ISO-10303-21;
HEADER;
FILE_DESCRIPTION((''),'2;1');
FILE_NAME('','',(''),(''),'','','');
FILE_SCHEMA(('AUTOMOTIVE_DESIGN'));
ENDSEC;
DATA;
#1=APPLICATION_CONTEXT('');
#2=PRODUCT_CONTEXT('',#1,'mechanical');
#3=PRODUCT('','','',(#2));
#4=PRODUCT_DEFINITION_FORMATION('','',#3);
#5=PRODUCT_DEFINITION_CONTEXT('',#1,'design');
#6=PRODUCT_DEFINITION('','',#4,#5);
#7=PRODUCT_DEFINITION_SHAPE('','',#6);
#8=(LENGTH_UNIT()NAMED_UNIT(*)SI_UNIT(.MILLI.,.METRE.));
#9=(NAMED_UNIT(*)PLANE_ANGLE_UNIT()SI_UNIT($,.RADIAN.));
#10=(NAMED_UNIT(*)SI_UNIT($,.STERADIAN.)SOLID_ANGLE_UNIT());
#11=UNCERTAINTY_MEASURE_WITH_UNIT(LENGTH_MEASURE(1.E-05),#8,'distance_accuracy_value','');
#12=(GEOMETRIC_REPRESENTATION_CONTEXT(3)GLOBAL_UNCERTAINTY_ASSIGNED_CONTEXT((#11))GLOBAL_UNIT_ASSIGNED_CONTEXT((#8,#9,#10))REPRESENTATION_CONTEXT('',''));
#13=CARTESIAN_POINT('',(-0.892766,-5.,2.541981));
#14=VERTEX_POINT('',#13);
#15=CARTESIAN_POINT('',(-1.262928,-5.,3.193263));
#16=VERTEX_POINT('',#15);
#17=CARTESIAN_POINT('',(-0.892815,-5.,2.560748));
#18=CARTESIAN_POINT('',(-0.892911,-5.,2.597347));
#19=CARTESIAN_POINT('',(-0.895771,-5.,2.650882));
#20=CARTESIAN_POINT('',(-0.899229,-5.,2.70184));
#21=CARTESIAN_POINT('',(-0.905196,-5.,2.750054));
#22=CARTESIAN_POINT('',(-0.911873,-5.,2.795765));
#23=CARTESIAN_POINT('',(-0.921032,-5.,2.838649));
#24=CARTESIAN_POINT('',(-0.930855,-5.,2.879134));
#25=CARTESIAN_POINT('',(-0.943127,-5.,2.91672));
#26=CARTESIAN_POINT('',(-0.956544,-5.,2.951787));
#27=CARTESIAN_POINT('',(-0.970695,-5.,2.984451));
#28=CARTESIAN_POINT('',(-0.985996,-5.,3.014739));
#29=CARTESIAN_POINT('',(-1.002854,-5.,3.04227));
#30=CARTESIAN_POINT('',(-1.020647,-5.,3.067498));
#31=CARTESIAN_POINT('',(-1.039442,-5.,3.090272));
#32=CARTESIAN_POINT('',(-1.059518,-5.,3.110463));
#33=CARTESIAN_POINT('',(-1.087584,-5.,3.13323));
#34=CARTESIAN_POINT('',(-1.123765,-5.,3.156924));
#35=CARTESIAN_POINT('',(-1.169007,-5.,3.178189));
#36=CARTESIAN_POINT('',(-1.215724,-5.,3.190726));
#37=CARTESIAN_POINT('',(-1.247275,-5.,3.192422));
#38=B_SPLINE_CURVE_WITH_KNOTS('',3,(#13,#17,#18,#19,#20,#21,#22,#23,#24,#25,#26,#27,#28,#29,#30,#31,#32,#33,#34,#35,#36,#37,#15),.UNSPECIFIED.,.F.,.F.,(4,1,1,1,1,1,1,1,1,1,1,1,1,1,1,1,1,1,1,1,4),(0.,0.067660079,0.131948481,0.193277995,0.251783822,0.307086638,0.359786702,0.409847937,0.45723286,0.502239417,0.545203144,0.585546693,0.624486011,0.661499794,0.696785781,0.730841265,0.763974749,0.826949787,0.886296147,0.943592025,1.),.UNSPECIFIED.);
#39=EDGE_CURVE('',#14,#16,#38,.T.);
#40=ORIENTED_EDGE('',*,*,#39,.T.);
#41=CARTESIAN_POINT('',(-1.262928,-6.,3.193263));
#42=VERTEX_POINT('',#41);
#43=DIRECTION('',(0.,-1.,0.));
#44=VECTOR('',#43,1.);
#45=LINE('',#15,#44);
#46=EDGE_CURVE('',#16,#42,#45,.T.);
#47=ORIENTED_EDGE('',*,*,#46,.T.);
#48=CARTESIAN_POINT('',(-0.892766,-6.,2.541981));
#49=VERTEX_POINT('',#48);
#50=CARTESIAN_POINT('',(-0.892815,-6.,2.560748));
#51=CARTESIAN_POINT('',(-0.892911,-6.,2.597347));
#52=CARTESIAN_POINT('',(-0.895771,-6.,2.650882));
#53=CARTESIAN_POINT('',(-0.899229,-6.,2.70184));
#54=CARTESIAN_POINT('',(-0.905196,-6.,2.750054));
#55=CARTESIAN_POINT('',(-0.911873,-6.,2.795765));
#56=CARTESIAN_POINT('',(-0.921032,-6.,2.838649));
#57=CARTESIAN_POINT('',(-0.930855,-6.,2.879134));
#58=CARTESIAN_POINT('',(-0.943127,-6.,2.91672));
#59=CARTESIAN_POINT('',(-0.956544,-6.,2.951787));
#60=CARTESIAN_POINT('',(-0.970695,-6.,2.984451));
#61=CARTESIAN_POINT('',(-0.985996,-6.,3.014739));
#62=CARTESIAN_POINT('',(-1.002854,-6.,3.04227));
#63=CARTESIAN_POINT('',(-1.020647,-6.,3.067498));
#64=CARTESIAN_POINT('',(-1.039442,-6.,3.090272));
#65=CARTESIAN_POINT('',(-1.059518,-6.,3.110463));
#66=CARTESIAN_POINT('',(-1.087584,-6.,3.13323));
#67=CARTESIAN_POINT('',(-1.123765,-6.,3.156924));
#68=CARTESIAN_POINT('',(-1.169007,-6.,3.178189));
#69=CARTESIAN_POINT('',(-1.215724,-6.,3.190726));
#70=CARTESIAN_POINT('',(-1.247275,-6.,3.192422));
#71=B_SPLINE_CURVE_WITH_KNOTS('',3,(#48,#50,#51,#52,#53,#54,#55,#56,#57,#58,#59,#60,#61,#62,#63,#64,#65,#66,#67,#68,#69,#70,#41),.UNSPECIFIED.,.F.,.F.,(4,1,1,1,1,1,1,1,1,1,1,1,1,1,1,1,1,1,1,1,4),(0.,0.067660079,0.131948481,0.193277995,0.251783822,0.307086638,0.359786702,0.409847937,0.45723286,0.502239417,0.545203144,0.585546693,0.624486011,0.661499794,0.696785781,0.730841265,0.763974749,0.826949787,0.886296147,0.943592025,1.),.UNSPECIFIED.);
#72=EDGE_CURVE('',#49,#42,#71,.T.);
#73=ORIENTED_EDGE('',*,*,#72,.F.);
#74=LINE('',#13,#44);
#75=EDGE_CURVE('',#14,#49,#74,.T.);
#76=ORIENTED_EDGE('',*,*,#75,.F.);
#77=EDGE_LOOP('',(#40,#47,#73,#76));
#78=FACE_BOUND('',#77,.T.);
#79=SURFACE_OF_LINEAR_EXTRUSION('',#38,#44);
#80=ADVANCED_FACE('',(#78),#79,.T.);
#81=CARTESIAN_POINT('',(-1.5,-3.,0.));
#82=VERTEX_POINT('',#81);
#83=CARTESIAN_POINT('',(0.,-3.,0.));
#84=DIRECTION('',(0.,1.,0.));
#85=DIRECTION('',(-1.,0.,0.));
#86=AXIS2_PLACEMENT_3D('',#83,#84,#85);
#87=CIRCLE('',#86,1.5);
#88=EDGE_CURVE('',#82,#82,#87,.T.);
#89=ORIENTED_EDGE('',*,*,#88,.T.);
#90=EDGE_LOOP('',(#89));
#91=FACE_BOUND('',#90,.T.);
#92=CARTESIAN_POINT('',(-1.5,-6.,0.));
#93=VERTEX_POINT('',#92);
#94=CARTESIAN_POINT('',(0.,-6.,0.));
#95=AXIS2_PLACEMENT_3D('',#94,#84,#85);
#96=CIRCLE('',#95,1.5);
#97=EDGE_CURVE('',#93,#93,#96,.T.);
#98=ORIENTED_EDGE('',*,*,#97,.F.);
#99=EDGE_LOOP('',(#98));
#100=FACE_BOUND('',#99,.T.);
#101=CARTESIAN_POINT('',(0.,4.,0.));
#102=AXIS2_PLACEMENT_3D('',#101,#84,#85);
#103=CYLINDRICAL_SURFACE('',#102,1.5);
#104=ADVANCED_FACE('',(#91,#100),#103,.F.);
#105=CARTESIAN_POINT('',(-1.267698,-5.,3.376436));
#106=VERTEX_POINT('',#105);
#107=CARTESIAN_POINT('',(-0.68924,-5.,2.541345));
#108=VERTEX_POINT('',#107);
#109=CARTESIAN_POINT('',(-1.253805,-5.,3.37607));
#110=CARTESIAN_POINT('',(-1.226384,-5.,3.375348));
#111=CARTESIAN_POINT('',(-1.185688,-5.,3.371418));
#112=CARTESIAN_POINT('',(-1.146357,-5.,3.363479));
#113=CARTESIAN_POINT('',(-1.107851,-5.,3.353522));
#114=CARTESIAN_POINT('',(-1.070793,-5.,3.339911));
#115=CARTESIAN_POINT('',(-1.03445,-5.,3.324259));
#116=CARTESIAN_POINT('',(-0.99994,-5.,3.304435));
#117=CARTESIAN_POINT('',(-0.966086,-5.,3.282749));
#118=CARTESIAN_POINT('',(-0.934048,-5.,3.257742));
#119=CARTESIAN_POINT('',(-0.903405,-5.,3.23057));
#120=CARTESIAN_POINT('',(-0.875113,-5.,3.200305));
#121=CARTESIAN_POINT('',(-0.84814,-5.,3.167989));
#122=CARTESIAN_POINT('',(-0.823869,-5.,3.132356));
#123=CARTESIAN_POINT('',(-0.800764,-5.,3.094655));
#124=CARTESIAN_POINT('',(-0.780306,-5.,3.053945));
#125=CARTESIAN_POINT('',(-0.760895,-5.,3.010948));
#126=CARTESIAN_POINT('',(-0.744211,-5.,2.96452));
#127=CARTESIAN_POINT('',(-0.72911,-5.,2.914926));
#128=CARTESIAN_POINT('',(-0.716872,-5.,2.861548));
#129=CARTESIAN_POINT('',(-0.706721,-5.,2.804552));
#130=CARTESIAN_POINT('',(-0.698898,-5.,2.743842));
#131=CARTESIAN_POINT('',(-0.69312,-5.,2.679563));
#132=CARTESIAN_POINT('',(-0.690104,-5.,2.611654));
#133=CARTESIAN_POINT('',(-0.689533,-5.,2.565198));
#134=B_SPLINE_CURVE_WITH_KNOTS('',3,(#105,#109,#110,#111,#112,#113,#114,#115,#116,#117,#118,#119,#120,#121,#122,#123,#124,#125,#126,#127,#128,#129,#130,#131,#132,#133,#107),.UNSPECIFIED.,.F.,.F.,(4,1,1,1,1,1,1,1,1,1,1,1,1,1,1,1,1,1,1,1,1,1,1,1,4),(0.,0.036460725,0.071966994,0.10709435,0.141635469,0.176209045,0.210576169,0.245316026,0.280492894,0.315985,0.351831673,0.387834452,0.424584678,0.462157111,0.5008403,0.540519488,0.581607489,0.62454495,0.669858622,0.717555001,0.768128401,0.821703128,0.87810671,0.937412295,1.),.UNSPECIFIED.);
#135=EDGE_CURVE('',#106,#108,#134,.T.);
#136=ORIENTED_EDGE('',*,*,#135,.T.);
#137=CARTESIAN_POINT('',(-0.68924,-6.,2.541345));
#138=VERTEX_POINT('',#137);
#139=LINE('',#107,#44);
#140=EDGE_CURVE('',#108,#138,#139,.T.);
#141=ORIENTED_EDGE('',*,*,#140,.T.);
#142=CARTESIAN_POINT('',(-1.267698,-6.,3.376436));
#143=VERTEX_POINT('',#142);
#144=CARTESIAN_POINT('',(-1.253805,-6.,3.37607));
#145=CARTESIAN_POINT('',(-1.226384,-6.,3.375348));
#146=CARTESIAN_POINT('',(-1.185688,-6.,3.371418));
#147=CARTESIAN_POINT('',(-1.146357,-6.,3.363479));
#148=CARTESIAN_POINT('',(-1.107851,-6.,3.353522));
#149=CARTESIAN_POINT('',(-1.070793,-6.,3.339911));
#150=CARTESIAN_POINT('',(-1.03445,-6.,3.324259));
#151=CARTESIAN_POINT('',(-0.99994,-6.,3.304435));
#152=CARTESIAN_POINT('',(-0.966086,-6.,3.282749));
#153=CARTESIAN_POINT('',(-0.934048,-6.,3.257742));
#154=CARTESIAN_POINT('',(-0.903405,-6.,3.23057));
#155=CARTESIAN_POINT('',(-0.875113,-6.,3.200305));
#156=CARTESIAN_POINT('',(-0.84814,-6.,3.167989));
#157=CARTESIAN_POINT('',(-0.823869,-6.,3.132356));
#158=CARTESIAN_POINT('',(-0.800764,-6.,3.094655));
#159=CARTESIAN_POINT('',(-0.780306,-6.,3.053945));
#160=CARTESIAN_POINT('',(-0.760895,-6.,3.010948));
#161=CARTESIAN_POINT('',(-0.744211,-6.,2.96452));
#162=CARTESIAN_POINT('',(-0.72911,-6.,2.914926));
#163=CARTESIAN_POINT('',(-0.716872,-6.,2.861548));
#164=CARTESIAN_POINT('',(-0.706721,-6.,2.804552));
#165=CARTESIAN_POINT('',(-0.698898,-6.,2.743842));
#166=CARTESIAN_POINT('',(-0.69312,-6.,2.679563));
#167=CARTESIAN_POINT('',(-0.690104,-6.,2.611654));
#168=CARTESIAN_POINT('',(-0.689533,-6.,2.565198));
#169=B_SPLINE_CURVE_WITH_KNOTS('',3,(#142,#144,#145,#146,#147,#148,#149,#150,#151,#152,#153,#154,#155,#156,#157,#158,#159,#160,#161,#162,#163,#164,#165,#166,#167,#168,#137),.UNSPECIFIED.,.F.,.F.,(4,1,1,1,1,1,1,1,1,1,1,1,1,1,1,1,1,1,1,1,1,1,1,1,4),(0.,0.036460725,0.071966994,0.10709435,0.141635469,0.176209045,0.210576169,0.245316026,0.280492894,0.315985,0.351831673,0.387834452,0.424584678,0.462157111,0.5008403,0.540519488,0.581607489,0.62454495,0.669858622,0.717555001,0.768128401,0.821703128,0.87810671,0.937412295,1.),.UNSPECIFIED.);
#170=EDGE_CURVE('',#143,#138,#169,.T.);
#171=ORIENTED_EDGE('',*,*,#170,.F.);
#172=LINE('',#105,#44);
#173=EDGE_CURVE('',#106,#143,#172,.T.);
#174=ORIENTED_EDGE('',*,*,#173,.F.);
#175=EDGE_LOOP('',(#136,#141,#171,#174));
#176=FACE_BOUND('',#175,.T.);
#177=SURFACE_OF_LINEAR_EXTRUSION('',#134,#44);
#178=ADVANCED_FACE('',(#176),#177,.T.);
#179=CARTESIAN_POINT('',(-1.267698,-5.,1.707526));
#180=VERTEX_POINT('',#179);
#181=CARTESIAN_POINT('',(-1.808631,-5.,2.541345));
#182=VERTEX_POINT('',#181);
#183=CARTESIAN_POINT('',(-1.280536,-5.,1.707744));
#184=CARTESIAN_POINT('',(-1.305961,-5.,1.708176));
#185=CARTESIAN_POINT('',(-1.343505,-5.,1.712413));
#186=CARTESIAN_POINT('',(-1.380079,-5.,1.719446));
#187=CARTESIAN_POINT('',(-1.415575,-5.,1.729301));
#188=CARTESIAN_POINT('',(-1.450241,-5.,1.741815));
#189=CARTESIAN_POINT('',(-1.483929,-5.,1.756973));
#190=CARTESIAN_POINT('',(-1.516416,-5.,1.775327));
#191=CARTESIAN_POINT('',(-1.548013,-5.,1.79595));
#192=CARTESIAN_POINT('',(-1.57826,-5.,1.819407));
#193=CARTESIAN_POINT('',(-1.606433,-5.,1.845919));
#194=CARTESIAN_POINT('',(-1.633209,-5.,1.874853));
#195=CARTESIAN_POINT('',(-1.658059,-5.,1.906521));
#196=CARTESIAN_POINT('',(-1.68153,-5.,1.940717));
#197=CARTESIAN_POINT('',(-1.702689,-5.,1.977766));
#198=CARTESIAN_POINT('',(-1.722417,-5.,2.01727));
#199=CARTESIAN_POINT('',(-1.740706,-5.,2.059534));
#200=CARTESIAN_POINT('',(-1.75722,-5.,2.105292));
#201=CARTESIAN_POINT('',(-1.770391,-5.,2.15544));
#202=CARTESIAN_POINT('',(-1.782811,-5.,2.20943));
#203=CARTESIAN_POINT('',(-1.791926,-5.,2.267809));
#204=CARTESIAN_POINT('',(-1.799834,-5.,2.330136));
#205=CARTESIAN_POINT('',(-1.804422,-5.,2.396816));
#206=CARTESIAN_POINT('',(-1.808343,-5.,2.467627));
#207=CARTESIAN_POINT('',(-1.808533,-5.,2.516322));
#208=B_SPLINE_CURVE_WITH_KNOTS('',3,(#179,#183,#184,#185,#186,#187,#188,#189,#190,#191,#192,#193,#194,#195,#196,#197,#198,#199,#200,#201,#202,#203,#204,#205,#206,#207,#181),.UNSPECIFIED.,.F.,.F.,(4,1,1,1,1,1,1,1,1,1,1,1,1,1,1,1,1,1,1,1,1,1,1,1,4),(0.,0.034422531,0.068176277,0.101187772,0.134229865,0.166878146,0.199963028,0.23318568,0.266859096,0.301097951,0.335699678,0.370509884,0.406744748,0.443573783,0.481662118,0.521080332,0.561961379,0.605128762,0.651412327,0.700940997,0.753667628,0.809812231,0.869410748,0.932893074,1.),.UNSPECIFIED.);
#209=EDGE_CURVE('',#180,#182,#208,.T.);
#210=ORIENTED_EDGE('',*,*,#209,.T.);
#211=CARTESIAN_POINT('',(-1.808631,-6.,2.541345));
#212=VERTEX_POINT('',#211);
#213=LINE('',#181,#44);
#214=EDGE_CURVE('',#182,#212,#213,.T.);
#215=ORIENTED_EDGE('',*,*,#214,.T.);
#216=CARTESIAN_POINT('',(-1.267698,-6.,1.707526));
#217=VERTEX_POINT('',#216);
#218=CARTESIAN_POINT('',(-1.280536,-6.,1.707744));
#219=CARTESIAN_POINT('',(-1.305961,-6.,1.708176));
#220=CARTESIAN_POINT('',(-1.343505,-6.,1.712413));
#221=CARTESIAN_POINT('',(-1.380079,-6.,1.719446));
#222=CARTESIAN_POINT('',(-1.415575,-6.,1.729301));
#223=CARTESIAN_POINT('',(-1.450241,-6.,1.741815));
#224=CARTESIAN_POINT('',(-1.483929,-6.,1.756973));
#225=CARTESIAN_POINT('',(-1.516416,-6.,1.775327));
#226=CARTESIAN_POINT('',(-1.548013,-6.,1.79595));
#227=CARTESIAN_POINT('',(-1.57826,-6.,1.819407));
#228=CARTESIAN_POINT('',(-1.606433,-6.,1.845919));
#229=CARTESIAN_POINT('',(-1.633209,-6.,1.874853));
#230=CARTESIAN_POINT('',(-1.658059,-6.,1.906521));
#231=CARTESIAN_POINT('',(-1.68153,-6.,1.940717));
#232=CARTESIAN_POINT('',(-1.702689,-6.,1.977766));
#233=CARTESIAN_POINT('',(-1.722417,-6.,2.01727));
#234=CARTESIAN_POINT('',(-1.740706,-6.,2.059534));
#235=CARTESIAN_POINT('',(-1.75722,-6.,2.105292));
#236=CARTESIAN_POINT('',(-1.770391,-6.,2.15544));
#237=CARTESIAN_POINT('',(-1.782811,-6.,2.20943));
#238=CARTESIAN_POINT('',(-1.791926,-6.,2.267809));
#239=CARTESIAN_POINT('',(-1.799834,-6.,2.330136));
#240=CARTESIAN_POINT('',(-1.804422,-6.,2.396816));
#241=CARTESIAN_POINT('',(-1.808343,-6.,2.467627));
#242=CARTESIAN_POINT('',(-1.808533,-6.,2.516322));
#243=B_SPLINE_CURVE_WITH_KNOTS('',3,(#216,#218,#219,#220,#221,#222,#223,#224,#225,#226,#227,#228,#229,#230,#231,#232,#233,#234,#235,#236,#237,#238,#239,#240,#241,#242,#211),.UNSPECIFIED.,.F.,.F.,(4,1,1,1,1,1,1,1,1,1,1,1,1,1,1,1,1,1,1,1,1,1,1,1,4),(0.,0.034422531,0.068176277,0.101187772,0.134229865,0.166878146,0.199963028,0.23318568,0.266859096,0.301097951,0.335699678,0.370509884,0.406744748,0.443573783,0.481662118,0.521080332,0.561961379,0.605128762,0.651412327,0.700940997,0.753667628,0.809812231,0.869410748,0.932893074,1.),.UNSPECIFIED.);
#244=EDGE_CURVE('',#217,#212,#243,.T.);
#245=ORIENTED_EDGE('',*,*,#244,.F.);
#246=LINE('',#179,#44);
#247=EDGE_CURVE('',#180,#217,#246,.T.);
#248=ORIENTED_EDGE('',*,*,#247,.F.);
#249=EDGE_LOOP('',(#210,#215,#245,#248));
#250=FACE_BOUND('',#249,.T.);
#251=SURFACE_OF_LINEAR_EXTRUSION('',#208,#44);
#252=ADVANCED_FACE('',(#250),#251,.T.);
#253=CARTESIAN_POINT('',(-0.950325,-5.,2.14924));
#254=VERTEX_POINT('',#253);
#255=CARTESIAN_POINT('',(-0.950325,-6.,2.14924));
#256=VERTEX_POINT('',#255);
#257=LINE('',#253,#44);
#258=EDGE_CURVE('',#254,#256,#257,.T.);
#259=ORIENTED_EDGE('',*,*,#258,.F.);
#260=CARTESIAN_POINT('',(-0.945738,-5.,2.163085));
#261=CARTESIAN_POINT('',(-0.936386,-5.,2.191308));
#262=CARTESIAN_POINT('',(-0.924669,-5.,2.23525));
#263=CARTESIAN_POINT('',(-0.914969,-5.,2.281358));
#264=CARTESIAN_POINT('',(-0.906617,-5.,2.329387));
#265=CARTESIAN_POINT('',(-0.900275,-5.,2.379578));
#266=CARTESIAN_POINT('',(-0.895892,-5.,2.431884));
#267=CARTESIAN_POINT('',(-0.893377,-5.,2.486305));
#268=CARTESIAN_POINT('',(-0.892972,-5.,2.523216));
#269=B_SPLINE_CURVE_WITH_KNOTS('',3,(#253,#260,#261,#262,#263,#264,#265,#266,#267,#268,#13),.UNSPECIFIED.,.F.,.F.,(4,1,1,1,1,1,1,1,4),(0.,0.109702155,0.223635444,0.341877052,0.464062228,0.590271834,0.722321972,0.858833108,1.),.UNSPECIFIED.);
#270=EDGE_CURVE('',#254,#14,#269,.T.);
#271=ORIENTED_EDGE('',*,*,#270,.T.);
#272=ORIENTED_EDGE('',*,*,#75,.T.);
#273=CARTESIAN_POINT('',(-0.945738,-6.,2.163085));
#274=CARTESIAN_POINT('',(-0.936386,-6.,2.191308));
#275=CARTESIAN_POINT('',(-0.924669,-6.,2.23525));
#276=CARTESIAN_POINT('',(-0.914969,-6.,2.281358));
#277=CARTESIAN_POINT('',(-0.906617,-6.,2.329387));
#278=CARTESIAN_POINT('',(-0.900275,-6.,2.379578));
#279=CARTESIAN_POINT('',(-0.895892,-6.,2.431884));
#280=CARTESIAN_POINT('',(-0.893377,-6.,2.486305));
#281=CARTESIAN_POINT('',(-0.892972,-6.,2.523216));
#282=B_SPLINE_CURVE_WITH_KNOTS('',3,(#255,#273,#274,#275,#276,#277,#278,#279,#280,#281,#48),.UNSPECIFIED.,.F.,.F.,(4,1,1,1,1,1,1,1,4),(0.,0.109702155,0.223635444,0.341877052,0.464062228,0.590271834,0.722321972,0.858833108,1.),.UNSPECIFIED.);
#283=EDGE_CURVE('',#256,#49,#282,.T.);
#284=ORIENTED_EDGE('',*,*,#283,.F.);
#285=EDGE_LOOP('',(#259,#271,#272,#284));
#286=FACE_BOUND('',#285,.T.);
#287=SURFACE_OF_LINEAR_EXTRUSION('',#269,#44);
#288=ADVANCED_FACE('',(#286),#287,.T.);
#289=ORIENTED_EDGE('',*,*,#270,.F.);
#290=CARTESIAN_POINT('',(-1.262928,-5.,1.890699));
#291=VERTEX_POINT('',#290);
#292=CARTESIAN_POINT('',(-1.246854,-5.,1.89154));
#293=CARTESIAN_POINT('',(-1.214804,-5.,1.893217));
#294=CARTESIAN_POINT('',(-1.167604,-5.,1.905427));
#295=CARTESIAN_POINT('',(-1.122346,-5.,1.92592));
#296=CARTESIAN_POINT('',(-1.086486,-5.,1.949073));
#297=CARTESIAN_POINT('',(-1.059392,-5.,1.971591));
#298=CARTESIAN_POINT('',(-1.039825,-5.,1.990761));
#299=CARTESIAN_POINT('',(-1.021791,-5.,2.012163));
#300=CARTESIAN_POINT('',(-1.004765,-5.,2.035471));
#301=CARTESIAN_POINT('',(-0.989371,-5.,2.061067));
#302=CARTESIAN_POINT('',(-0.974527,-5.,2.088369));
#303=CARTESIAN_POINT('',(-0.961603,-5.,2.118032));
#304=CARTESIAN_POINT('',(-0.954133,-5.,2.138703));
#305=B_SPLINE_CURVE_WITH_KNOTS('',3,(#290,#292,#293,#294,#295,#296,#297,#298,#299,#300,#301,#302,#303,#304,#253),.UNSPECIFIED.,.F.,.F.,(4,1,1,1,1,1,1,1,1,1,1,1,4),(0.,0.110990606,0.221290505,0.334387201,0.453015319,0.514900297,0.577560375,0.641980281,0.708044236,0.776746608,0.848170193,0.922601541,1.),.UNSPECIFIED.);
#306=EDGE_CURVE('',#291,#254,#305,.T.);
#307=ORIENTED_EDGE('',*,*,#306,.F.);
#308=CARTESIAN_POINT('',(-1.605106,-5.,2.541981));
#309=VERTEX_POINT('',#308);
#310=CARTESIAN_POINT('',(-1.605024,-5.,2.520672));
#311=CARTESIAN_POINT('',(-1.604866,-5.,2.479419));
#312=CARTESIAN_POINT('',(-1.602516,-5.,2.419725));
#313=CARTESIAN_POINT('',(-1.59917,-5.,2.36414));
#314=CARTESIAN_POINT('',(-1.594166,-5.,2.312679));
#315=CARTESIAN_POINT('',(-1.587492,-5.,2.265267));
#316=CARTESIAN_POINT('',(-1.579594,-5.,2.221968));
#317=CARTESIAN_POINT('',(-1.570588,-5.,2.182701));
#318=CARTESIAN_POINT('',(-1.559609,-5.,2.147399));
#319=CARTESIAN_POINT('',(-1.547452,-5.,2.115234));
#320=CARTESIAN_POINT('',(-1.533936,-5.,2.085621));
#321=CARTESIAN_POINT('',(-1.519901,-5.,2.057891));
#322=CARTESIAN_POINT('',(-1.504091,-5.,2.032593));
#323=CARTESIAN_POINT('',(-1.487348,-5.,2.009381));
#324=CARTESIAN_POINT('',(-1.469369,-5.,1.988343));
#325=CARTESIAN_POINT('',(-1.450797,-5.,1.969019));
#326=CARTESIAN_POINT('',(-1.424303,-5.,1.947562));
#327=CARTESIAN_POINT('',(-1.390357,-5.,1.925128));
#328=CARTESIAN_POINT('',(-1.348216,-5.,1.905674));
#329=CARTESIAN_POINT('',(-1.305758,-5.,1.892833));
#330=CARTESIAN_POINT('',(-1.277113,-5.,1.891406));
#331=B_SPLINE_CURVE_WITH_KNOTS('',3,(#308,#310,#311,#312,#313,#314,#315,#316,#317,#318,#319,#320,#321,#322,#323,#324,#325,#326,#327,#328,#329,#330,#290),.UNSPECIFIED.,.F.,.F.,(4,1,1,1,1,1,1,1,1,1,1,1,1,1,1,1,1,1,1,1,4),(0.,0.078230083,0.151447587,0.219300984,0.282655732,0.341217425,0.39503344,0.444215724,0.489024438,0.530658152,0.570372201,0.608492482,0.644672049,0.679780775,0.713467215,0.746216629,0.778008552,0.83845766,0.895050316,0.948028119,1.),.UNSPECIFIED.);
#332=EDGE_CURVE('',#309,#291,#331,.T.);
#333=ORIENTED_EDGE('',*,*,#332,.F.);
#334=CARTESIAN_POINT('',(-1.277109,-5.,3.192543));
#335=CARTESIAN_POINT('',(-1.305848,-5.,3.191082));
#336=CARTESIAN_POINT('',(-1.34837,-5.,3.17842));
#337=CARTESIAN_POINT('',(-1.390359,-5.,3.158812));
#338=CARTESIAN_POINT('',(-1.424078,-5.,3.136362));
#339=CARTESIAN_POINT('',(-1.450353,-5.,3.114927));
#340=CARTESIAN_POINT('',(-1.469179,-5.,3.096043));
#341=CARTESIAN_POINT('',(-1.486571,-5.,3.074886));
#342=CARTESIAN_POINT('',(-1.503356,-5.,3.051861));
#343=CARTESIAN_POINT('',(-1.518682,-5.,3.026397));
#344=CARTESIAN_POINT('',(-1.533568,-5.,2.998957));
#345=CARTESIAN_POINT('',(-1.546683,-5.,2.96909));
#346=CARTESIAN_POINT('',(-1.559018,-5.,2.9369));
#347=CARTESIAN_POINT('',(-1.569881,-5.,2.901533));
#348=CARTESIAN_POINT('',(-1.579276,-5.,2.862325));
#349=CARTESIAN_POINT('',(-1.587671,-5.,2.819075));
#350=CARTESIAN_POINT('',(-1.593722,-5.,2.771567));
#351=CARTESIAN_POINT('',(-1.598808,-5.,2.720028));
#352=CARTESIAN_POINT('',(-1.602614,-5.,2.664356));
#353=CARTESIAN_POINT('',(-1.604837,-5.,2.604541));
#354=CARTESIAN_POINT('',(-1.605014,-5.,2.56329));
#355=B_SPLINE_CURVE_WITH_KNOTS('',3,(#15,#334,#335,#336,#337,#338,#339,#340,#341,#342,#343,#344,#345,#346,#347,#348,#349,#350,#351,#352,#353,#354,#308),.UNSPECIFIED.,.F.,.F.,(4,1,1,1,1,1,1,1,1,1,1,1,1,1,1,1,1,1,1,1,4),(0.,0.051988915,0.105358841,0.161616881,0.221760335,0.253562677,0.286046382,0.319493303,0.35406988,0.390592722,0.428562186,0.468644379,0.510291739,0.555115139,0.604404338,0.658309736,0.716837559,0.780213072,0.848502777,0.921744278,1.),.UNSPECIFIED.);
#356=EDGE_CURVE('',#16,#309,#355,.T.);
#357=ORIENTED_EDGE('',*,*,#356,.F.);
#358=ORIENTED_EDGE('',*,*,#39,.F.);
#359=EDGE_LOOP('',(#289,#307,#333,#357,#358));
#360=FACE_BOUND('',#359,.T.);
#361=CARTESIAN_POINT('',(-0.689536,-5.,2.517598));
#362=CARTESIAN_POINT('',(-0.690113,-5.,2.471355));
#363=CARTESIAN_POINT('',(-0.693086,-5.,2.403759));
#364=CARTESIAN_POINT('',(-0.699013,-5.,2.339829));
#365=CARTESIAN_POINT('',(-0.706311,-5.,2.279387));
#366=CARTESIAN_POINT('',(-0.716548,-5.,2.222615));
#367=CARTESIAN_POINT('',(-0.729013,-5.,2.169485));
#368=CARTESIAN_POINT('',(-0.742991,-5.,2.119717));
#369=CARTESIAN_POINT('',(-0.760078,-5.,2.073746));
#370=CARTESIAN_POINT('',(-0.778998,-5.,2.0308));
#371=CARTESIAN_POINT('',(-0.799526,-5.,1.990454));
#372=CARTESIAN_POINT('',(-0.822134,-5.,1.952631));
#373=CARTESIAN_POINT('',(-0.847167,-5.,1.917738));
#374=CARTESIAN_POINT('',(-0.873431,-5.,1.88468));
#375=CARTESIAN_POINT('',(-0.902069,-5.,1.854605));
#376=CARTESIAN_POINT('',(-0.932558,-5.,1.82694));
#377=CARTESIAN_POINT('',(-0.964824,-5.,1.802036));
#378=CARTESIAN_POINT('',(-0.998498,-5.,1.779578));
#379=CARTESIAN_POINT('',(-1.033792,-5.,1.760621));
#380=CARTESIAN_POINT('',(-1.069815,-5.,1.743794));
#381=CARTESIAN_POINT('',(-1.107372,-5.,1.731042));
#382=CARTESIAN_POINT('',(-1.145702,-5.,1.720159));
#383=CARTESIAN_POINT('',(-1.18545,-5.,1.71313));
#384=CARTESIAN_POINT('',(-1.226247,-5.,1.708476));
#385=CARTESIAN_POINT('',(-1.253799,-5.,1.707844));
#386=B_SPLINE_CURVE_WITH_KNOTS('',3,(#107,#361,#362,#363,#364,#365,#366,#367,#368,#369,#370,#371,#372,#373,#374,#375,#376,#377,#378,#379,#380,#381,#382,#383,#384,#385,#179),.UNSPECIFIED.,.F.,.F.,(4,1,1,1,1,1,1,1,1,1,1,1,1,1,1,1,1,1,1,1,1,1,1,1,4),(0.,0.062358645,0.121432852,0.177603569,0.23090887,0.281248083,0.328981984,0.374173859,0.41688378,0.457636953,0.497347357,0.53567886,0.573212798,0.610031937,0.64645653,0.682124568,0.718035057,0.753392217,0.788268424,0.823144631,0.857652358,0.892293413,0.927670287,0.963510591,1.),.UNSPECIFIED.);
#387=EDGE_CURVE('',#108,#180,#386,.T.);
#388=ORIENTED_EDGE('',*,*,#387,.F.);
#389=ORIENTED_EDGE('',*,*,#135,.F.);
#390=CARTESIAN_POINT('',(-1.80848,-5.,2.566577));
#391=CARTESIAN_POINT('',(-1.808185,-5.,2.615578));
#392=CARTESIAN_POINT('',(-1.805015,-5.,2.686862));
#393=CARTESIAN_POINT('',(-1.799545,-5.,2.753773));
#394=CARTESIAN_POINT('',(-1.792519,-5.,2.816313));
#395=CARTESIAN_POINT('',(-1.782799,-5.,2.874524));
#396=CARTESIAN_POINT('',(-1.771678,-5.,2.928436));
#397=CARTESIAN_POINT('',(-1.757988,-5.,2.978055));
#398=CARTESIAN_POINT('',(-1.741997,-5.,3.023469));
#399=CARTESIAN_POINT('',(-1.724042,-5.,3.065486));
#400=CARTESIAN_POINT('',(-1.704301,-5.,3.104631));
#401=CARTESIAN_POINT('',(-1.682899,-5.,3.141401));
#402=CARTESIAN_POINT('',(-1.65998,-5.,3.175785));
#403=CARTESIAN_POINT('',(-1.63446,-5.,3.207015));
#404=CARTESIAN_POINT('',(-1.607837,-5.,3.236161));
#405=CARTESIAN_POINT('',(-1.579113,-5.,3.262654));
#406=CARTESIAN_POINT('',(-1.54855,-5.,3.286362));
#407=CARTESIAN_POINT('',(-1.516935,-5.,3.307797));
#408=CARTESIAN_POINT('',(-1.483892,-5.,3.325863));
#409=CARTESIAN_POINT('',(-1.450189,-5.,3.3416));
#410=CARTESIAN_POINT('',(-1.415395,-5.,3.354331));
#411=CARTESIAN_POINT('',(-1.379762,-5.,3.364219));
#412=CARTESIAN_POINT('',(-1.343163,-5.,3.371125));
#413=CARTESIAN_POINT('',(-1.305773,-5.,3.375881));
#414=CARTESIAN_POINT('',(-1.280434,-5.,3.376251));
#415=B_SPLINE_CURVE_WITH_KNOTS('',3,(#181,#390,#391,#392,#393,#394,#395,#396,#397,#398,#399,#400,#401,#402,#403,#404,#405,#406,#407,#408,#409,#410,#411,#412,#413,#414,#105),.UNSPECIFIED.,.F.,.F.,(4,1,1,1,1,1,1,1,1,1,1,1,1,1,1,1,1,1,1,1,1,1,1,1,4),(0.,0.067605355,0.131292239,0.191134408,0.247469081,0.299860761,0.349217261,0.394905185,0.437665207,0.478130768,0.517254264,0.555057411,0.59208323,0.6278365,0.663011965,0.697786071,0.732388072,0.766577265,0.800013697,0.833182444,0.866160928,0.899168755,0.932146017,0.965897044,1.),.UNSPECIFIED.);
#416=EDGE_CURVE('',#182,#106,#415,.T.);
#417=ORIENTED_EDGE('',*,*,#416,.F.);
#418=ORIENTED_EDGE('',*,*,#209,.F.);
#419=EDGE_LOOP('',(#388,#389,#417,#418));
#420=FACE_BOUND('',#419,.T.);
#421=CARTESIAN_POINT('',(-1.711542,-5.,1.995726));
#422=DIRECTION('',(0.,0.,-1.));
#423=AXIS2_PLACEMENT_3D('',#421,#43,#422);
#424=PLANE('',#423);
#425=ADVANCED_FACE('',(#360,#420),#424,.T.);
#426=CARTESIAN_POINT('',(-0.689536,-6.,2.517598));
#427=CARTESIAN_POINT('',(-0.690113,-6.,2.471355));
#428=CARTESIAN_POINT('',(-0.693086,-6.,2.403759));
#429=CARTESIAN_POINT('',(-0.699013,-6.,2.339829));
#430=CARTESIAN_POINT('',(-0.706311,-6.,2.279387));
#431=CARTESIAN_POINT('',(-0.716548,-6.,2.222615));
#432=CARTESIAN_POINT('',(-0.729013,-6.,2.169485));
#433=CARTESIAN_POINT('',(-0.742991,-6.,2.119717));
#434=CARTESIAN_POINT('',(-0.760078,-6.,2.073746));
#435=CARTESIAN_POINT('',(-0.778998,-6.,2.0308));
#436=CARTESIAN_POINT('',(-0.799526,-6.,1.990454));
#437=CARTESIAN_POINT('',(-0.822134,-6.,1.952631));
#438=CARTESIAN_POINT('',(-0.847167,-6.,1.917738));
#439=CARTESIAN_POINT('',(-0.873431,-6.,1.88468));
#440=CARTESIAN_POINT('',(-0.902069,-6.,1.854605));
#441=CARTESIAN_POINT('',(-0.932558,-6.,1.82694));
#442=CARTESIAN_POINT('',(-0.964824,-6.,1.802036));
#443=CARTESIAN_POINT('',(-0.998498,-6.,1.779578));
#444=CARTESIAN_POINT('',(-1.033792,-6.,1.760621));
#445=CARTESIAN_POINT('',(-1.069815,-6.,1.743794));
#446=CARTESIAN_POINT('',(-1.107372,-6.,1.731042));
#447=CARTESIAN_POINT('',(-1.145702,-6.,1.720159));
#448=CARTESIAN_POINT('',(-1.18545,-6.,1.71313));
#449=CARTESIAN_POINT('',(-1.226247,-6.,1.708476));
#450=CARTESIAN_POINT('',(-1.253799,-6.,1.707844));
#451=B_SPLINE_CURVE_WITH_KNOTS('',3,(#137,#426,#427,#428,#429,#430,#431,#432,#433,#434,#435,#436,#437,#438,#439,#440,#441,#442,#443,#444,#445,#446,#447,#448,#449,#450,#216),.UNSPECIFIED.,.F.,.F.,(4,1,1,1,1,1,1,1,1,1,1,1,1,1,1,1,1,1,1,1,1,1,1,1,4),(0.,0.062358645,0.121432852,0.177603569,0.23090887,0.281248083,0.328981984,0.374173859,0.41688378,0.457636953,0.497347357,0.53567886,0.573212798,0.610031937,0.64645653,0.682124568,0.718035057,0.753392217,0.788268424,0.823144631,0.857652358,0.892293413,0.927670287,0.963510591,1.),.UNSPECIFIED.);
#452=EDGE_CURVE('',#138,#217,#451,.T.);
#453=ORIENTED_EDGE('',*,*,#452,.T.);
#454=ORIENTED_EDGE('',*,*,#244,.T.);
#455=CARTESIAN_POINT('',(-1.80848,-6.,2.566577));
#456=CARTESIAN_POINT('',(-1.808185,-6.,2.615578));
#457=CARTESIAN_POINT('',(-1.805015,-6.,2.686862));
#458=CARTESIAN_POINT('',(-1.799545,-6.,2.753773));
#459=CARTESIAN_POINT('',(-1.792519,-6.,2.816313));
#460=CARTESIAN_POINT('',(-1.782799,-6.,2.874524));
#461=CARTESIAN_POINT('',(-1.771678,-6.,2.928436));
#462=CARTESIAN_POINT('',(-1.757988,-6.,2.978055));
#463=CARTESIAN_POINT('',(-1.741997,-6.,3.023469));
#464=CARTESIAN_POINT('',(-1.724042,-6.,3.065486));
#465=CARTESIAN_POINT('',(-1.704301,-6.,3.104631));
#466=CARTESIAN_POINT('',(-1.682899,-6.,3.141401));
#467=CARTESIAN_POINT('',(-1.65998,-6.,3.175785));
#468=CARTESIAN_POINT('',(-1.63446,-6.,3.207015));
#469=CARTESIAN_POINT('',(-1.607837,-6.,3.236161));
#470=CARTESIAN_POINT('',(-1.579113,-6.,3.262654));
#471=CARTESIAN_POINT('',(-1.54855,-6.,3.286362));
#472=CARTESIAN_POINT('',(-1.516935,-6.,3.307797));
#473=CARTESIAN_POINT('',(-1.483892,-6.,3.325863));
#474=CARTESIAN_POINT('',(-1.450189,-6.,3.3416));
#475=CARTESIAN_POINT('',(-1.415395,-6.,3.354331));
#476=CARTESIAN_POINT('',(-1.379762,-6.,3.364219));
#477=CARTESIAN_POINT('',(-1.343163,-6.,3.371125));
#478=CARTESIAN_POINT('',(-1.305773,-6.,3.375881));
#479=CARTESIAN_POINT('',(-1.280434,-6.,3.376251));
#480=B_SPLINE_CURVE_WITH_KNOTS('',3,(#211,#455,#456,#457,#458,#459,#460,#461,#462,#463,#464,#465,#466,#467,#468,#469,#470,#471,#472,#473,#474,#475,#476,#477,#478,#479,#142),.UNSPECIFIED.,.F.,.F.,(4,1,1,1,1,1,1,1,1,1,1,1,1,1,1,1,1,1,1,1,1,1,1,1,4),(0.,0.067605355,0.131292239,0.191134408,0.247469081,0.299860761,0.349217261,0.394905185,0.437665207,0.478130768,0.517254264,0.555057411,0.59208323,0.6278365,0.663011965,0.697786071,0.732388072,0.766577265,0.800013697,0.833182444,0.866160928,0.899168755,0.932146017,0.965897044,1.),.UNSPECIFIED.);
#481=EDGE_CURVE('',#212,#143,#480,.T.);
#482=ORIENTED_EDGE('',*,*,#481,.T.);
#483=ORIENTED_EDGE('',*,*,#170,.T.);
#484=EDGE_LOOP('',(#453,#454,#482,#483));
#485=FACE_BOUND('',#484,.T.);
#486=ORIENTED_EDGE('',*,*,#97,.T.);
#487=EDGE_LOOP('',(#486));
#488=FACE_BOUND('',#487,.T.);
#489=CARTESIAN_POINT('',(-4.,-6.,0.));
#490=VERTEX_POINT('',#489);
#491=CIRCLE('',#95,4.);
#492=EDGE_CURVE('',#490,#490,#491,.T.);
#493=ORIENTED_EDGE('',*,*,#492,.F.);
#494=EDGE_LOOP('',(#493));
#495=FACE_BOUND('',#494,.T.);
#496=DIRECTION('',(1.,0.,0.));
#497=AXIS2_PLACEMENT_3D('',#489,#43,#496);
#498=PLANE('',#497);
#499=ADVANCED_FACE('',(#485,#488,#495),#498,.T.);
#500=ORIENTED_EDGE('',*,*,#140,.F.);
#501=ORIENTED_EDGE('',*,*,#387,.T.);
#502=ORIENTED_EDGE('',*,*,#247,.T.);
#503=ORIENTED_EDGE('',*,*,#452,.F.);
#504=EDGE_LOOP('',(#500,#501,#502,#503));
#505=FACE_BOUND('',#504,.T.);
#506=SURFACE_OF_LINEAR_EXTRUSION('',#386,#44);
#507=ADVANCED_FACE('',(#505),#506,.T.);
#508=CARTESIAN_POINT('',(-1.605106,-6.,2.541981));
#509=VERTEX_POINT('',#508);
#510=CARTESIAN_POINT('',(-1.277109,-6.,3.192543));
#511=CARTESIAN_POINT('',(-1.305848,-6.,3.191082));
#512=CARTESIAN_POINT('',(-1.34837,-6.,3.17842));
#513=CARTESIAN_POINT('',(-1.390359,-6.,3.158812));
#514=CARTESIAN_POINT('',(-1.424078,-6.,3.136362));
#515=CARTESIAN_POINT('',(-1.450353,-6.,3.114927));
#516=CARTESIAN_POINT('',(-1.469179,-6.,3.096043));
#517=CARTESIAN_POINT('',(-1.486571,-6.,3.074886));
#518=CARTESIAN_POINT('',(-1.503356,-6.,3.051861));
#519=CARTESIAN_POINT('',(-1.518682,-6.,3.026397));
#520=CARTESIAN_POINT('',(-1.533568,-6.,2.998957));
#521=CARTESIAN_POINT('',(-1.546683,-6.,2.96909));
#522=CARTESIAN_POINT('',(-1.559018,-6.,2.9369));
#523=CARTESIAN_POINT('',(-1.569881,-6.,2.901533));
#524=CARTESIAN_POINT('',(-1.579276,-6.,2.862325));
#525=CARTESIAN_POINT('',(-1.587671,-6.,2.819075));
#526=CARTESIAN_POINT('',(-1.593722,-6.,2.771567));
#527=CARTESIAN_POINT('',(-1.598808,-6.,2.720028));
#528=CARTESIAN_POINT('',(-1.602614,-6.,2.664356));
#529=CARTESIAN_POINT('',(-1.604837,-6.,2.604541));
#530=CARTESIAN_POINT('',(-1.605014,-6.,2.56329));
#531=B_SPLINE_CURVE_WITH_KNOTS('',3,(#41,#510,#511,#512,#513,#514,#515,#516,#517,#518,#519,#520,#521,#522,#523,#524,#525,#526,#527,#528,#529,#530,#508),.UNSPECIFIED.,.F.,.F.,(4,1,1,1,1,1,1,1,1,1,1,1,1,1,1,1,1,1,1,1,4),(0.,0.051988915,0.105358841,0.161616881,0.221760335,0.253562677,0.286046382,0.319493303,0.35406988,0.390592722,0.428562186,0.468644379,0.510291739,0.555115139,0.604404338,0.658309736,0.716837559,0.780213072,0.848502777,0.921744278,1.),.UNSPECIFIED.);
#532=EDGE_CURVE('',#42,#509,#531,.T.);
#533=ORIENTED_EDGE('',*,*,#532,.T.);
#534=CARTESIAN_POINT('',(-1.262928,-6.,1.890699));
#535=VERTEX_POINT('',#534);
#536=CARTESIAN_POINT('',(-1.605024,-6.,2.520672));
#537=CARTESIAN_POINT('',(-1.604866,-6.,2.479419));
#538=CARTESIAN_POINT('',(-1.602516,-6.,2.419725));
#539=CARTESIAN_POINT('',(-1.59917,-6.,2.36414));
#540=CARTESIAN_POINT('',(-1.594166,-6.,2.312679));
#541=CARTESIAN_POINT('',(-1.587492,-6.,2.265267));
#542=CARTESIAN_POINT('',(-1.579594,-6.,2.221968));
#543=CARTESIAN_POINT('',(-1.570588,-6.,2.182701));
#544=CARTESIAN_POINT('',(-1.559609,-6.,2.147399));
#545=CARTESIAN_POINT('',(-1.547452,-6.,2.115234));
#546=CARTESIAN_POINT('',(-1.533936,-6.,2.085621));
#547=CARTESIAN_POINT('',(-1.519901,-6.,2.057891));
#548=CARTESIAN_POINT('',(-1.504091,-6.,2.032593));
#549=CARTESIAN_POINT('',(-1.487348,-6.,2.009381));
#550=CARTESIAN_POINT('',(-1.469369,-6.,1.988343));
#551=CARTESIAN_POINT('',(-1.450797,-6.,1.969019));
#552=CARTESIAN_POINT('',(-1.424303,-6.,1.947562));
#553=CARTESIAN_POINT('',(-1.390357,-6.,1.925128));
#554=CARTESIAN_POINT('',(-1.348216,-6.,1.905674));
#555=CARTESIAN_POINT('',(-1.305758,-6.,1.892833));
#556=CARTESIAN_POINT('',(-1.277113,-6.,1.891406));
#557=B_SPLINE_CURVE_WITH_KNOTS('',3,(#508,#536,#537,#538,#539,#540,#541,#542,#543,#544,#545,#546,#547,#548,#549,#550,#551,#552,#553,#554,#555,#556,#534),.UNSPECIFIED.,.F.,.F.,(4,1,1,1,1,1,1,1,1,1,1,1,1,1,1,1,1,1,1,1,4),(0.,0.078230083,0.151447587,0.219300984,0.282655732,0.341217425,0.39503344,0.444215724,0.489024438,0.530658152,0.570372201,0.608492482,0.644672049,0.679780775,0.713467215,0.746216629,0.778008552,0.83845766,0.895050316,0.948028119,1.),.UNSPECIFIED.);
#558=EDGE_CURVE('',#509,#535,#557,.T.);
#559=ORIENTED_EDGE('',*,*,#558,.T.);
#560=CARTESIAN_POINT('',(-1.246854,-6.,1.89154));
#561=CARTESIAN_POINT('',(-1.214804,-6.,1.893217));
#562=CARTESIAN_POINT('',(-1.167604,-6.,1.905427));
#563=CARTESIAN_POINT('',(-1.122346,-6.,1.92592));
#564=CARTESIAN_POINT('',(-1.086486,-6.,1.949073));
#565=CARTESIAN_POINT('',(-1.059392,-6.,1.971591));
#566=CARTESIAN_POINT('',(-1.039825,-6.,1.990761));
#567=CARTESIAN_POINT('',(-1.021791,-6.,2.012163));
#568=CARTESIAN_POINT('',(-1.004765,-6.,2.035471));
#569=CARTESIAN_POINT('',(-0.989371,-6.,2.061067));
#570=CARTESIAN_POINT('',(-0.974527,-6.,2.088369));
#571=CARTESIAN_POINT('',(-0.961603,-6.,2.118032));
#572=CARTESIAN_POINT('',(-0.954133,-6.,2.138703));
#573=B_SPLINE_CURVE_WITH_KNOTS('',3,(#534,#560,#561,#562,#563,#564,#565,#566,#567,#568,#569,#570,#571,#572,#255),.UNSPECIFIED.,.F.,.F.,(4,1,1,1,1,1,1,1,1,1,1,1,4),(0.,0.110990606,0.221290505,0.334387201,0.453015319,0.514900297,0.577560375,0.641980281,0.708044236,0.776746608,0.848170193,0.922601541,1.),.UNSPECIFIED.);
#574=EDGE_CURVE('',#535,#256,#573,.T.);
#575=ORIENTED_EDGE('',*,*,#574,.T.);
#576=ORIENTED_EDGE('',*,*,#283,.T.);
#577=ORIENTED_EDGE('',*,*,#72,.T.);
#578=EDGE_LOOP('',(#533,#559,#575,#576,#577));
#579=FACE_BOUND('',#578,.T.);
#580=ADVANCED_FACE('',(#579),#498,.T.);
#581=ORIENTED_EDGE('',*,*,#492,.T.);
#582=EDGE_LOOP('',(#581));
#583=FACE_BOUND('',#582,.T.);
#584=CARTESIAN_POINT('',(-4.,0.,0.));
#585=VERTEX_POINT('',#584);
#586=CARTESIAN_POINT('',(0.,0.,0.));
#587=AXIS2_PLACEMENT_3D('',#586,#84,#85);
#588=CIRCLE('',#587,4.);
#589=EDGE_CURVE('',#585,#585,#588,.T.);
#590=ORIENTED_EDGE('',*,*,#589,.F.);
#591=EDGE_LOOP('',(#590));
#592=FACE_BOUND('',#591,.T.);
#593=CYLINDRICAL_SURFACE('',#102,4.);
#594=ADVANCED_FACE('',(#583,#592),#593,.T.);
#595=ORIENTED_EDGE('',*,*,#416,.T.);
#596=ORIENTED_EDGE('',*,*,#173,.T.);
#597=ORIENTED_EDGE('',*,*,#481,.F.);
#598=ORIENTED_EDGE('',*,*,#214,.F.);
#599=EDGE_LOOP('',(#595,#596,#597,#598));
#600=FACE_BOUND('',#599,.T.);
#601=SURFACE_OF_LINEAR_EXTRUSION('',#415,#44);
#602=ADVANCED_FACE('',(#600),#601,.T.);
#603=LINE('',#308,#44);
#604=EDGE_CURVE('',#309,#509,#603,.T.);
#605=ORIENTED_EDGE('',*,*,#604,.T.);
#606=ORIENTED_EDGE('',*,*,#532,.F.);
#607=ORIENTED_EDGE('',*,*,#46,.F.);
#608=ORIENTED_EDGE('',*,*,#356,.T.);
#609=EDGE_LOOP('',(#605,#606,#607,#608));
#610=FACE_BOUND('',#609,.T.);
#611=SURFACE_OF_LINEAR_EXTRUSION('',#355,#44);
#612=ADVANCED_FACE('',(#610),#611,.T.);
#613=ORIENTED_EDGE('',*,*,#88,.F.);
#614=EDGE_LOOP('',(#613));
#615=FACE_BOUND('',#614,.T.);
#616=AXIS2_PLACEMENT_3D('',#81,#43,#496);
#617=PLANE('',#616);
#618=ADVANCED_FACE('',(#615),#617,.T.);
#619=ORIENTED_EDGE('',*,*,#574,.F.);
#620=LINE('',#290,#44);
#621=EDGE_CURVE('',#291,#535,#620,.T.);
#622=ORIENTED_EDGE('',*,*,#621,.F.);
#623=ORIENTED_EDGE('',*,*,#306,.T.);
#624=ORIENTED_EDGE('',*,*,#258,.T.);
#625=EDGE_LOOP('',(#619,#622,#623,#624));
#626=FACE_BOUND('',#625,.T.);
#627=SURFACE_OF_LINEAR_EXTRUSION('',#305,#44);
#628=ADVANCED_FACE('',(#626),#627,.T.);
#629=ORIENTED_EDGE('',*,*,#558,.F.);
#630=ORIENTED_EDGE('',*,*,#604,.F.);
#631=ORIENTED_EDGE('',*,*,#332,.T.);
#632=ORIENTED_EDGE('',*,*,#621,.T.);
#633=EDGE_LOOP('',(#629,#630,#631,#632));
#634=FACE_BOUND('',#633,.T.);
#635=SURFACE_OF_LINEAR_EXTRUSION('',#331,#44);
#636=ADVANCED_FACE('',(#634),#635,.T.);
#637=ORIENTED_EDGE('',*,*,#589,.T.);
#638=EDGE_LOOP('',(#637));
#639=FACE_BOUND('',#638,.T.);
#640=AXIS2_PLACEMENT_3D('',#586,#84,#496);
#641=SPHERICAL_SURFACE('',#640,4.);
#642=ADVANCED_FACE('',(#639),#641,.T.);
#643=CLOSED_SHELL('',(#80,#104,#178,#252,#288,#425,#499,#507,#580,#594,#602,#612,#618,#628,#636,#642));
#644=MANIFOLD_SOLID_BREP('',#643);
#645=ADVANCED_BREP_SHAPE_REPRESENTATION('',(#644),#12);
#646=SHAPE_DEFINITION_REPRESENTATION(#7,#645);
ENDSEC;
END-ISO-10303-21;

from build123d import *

# Parameters (mm, degrees)
ENL_V_MAT_EXTRU_1_DEPTH = 1


with BuildPart() as part:
    # Esquisse2 → Révolution2 (revolve)
    with BuildSketch(Plane.XY):
        with BuildLine():
            Line((-1.5, -3), (-1.5, -6))
            Line((-1.5, -6), (-4, -6))
            Line((-4, -6), (-4, 0))
            ThreePointArc((-4, 0), (-2.828427125, 2.828427125), (0, 4))
            Line((0, 4), (0, -3))
            Line((0, -3), (-1.5, -3))
        make_face()
    revolve(axis=Axis((0, 4, 0), (0, -1, 0)))

    # Esquisse3 → Enlèv. mat.-Extru.1 (cut)
    with BuildSketch(Plane.XZ.offset(6)):
        with BuildLine():
            add(Edge.make_bspline(
                [(-1.80863124, 2.541345123), (-1.808479721, 2.566576945), (-1.808185465, 2.615578129), (-1.805014729, 2.686862301), (-1.799544973, 2.753773198), (-1.792519265, 2.816312807), (-1.782799384, 2.874524095), (-1.771677826, 2.928435828), (-1.75798753, 2.978054639), (-1.741996794, 3.023469068), (-1.724042414, 3.06548569), (-1.704301487, 3.104630802), (-1.682899044, 3.141401404), (-1.659979633, 3.175784688), (-1.634459695, 3.207014642), (-1.607837422, 3.236160804), (-1.579113212, 3.262654216), (-1.548550296, 3.286362241), (-1.516934602, 3.307796564), (-1.483892299, 3.325862839), (-1.450188991, 3.341600286), (-1.415394884, 3.354330516), (-1.379762252, 3.364219477), (-1.343163483, 3.371125489), (-1.305772607, 3.375881264), (-1.280433508, 3.376250629), (-1.267698248, 3.376436269)],
                knots=[0, 0, 0, 0, 1.622528522, 3.151013738, 4.587225782, 5.939257941, 7.196658267, 8.381214254, 9.47772444, 10.503964975, 11.475138444, 12.414102326, 13.321377868, 14.209997518, 15.068075989, 15.912287155, 16.746865696, 17.577313739, 18.397854368, 19.200328723, 19.996378645, 20.787862277, 21.580050128, 22.371504404, 23.181529048, 24, 24, 24, 24], degree=3))
            add(Edge.make_bspline(
                [(-1.267698248, 3.376436269), (-1.253805469, 3.376070417), (-1.226383591, 3.37534829), (-1.185688202, 3.371418433), (-1.146357234, 3.363478815), (-1.107851049, 3.353522224), (-1.070793349, 3.339911348), (-1.034450069, 3.324259466), (-0.999939833, 3.304434891), (-0.966085568, 3.282749499), (-0.934048036, 3.25774196), (-0.903405408, 3.230569518), (-0.875113051, 3.200304639), (-0.848139657, 3.16798873), (-0.823868807, 3.132356169), (-0.800763662, 3.094654654), (-0.780305532, 3.05394524), (-0.760895229, 3.010948076), (-0.74421092, 2.964519866), (-0.729110025, 2.91492575), (-0.716872402, 2.861547844), (-0.706720882, 2.804552033), (-0.698897695, 2.743842361), (-0.693120072, 2.679563038), (-0.690103596, 2.611653966), (-0.689533129, 2.565198361), (-0.689240215, 2.541345123)],
                knots=[0, 0, 0, 0, 0.875057392, 1.727207867, 2.570264412, 3.399251263, 4.229017074, 5.053828049, 5.887584622, 6.731829445, 7.583639997, 8.443960147, 9.308026848, 10.190032267, 11.091770676, 12.020167189, 12.972467704, 13.958579741, 14.989078804, 16.076606933, 17.221320015, 18.435081626, 19.720875061, 21.074561036, 22.497895074, 24, 24, 24, 24], degree=3))
            add(Edge.make_bspline(
                [(-0.689240215, 2.541345123), (-0.689536199, 2.517598254), (-0.690112578, 2.471355268), (-0.693085762, 2.403758625), (-0.699013134, 2.339828893), (-0.706311275, 2.279386639), (-0.716548088, 2.222615428), (-0.729012582, 2.169485269), (-0.742990504, 2.11971682), (-0.760077838, 2.073746258), (-0.778998468, 2.030799872), (-0.799526075, 1.99045447), (-0.822133943, 1.952630546), (-0.847166636, 1.917738486), (-0.873431331, 1.884680376), (-0.902069059, 1.854605169), (-0.93255791, 1.826939612), (-0.96482414, 1.802036036), (-0.998498431, 1.779578013), (-1.033792029, 1.760620727), (-1.069815262, 1.743794249), (-1.107372434, 1.731042265), (-1.145702223, 1.720159494), (-1.185450047, 1.713129804), (-1.226246928, 1.70847555), (-1.253798722, 1.707844413), (-1.267698248, 1.707526012)],
                knots=[0, 0, 0, 0, 1.496607488, 2.914388442, 4.262485651, 5.541812885, 6.749953981, 7.895567619, 8.980172623, 10.005210728, 10.983286874, 11.936336572, 12.856292636, 13.757107149, 14.640766483, 15.514956722, 16.370989637, 17.232841377, 18.081413197, 18.918442167, 19.755471137, 20.583656588, 21.41504191, 22.264086897, 23.124254193, 24, 24, 24, 24], degree=3))
            add(Edge.make_bspline(
                [(-1.267698248, 1.707526012), (-1.28053559, 1.707744144), (-1.305960862, 1.708176169), (-1.343505356, 1.712413318), (-1.38007908, 1.719445505), (-1.415574616, 1.729301415), (-1.450241362, 1.741814634), (-1.483928981, 1.756972649), (-1.516416052, 1.775327151), (-1.54801261, 1.795949979), (-1.578259763, 1.819406928), (-1.6064329, 1.845919153), (-1.633209394, 1.874853048), (-1.658058785, 1.906520629), (-1.68153021, 1.940717467), (-1.70268935, 1.977765743), (-1.722416535, 2.017269766), (-1.740706112, 2.059533815), (-1.757219877, 2.105292204), (-1.770391091, 2.155440158), (-1.782811418, 2.209430466), (-1.79192615, 2.267809314), (-1.799834358, 2.33013628), (-1.804422361, 2.396815965), (-1.808343164, 2.467627223), (-1.808533454, 2.51632197), (-1.80863124, 2.541345123)],
                knots=[0, 0, 0, 0, 0.82614074, 1.636230647, 2.42850654, 3.22151677, 4.005075515, 4.799112676, 5.596456327, 6.404618302, 7.226350817, 8.05679228, 8.892237205, 9.761873943, 10.645770802, 11.559890835, 12.505927976, 13.487073095, 14.523090282, 15.633895838, 16.822583925, 18.088023083, 19.435493537, 20.865857947, 22.389433785, 24, 24, 24, 24], degree=3))
        make_face()
        with BuildLine():
            add(Edge.make_bspline(
                [(-1.605105599, 2.541981141), (-1.605023852, 2.520672046), (-1.604865594, 2.479419233), (-1.602515721, 2.419724601), (-1.599170136, 2.364139577), (-1.59416568, 2.312679231), (-1.587492401, 2.265267043), (-1.579593913, 2.22196849), (-1.570588452, 2.182700619), (-1.559609283, 2.147398904), (-1.547452492, 2.115233539), (-1.533935704, 2.085621273), (-1.519900759, 2.057891237), (-1.504090822, 2.032593058), (-1.487347707, 2.00938102), (-1.469369083, 1.988343478), (-1.450796759, 1.969019299), (-1.424302992, 1.947561621), (-1.390356536, 1.925127641), (-1.348216049, 1.905674198), (-1.305758021, 1.892833006), (-1.277113233, 1.891405835), (-1.262928115, 1.890699089)],
                knots=[0, 0, 0, 0, 1.564601651, 3.028951736, 4.386019676, 5.653114642, 6.824348509, 7.900668805, 8.88431448, 9.780488761, 10.613163047, 11.407444027, 12.169849642, 12.89344098, 13.595615509, 14.26934431, 14.924332585, 15.560171042, 16.769153194, 17.901006317, 18.960562374, 20, 20, 20, 20], degree=3))
            add(Edge.make_bspline(
                [(-1.262928115, 1.890699089), (-1.246853522, 1.891540168), (-1.214804369, 1.893217091), (-1.167603677, 1.905427209), (-1.122345984, 1.925920174), (-1.086485855, 1.949072591), (-1.05939208, 1.971591143), (-1.039825463, 1.990761174), (-1.02179068, 2.012163191), (-1.004765256, 2.035471294), (-0.989370848, 2.06106677), (-0.974527097, 2.088368697), (-0.961602786, 2.118032092), (-0.95413322, 2.138702882), (-0.950325451, 2.149240255)],
                knots=[0, 0, 0, 0, 1.331887272, 2.655486065, 4.012646414, 5.436183829, 6.178803566, 6.930724497, 7.703763371, 8.496530827, 9.320959298, 10.178042319, 11.071218497, 12, 12, 12, 12], degree=3))
            add(Edge.make_bspline(
                [(-0.950325451, 2.149240255), (-0.945737968, 2.163084868), (-0.936386065, 2.191308069), (-0.924669416, 2.235249723), (-0.914969473, 2.281357725), (-0.906617281, 2.329386525), (-0.90027545, 2.37957809), (-0.895891912, 2.431884075), (-0.893377451, 2.486304801), (-0.892971987, 2.523216067), (-0.892765856, 2.541981141)],
                knots=[0, 0, 0, 0, 0.877617242, 1.789083553, 2.735016418, 3.71249782, 4.722174671, 5.778575778, 6.870664861, 8, 8, 8, 8], degree=3))
            add(Edge.make_bspline(
                [(-0.892765856, 2.541981141), (-0.892815192, 2.560748136), (-0.892911405, 2.597346919), (-0.895770969, 2.650881984), (-0.899229308, 2.701840221), (-0.905195582, 2.750054281), (-0.911872778, 2.795764776), (-0.921031545, 2.838648534), (-0.930854849, 2.879133664), (-0.943127016, 2.916720139), (-0.956544156, 2.951787091), (-0.970695385, 2.984451245), (-0.985996373, 3.014738738), (-1.002854445, 3.04226954), (-1.020647463, 3.06749779), (-1.039441811, 3.090271765), (-1.05951754, 3.110463274), (-1.087584092, 3.133229632), (-1.123765401, 3.156924472), (-1.169007106, 3.178189343), (-1.215723695, 3.190725625), (-1.247275437, 3.192421751), (-1.262928115, 3.193263192)],
                knots=[0, 0, 0, 0, 1.353201578, 2.638969622, 3.865559904, 5.035676431, 6.141732754, 7.195734042, 8.19695873, 9.144657206, 10.044788335, 10.904062871, 11.710933862, 12.489720227, 13.229995877, 13.935715626, 14.616825307, 15.279494989, 16.538995736, 17.725922936, 18.871840505, 20, 20, 20, 20], degree=3))
            add(Edge.make_bspline(
                [(-1.262928115, 3.193263192), (-1.277109142, 3.192542637), (-1.305847895, 3.191082387), (-1.348370358, 3.178419537), (-1.390359144, 3.158811848), (-1.424078124, 3.13636234), (-1.450352786, 3.114927418), (-1.469178663, 3.096042766), (-1.486571406, 3.074886349), (-1.503356006, 3.051861153), (-1.518682213, 3.02639658), (-1.533568016, 2.998957155), (-1.546683445, 2.96908953), (-1.559017747, 2.936899522), (-1.569881275, 2.90153329), (-1.579275962, 2.86232535), (-1.587671251, 2.819074671), (-1.593721707, 2.771566799), (-1.598807927, 2.720028274), (-1.602614415, 2.664356134), (-1.604836941, 2.604541443), (-1.605014092, 2.563289689), (-1.605105599, 2.541981141)],
                knots=[0, 0, 0, 0, 1.039778295, 2.107176824, 3.232337611, 4.43520669, 5.071253539, 5.720927637, 6.389866065, 7.081397607, 7.811854436, 8.571243718, 9.372887587, 10.205834777, 11.102302774, 12.088086757, 13.166194718, 14.33675119, 15.604261439, 16.970055543, 18.43488556, 20, 20, 20, 20], degree=3))
        make_face(mode=Mode.SUBTRACT)
    extrude(amount=-ENL_V_MAT_EXTRU_1_DEPTH, mode=Mode.SUBTRACT)


solid = part.part
